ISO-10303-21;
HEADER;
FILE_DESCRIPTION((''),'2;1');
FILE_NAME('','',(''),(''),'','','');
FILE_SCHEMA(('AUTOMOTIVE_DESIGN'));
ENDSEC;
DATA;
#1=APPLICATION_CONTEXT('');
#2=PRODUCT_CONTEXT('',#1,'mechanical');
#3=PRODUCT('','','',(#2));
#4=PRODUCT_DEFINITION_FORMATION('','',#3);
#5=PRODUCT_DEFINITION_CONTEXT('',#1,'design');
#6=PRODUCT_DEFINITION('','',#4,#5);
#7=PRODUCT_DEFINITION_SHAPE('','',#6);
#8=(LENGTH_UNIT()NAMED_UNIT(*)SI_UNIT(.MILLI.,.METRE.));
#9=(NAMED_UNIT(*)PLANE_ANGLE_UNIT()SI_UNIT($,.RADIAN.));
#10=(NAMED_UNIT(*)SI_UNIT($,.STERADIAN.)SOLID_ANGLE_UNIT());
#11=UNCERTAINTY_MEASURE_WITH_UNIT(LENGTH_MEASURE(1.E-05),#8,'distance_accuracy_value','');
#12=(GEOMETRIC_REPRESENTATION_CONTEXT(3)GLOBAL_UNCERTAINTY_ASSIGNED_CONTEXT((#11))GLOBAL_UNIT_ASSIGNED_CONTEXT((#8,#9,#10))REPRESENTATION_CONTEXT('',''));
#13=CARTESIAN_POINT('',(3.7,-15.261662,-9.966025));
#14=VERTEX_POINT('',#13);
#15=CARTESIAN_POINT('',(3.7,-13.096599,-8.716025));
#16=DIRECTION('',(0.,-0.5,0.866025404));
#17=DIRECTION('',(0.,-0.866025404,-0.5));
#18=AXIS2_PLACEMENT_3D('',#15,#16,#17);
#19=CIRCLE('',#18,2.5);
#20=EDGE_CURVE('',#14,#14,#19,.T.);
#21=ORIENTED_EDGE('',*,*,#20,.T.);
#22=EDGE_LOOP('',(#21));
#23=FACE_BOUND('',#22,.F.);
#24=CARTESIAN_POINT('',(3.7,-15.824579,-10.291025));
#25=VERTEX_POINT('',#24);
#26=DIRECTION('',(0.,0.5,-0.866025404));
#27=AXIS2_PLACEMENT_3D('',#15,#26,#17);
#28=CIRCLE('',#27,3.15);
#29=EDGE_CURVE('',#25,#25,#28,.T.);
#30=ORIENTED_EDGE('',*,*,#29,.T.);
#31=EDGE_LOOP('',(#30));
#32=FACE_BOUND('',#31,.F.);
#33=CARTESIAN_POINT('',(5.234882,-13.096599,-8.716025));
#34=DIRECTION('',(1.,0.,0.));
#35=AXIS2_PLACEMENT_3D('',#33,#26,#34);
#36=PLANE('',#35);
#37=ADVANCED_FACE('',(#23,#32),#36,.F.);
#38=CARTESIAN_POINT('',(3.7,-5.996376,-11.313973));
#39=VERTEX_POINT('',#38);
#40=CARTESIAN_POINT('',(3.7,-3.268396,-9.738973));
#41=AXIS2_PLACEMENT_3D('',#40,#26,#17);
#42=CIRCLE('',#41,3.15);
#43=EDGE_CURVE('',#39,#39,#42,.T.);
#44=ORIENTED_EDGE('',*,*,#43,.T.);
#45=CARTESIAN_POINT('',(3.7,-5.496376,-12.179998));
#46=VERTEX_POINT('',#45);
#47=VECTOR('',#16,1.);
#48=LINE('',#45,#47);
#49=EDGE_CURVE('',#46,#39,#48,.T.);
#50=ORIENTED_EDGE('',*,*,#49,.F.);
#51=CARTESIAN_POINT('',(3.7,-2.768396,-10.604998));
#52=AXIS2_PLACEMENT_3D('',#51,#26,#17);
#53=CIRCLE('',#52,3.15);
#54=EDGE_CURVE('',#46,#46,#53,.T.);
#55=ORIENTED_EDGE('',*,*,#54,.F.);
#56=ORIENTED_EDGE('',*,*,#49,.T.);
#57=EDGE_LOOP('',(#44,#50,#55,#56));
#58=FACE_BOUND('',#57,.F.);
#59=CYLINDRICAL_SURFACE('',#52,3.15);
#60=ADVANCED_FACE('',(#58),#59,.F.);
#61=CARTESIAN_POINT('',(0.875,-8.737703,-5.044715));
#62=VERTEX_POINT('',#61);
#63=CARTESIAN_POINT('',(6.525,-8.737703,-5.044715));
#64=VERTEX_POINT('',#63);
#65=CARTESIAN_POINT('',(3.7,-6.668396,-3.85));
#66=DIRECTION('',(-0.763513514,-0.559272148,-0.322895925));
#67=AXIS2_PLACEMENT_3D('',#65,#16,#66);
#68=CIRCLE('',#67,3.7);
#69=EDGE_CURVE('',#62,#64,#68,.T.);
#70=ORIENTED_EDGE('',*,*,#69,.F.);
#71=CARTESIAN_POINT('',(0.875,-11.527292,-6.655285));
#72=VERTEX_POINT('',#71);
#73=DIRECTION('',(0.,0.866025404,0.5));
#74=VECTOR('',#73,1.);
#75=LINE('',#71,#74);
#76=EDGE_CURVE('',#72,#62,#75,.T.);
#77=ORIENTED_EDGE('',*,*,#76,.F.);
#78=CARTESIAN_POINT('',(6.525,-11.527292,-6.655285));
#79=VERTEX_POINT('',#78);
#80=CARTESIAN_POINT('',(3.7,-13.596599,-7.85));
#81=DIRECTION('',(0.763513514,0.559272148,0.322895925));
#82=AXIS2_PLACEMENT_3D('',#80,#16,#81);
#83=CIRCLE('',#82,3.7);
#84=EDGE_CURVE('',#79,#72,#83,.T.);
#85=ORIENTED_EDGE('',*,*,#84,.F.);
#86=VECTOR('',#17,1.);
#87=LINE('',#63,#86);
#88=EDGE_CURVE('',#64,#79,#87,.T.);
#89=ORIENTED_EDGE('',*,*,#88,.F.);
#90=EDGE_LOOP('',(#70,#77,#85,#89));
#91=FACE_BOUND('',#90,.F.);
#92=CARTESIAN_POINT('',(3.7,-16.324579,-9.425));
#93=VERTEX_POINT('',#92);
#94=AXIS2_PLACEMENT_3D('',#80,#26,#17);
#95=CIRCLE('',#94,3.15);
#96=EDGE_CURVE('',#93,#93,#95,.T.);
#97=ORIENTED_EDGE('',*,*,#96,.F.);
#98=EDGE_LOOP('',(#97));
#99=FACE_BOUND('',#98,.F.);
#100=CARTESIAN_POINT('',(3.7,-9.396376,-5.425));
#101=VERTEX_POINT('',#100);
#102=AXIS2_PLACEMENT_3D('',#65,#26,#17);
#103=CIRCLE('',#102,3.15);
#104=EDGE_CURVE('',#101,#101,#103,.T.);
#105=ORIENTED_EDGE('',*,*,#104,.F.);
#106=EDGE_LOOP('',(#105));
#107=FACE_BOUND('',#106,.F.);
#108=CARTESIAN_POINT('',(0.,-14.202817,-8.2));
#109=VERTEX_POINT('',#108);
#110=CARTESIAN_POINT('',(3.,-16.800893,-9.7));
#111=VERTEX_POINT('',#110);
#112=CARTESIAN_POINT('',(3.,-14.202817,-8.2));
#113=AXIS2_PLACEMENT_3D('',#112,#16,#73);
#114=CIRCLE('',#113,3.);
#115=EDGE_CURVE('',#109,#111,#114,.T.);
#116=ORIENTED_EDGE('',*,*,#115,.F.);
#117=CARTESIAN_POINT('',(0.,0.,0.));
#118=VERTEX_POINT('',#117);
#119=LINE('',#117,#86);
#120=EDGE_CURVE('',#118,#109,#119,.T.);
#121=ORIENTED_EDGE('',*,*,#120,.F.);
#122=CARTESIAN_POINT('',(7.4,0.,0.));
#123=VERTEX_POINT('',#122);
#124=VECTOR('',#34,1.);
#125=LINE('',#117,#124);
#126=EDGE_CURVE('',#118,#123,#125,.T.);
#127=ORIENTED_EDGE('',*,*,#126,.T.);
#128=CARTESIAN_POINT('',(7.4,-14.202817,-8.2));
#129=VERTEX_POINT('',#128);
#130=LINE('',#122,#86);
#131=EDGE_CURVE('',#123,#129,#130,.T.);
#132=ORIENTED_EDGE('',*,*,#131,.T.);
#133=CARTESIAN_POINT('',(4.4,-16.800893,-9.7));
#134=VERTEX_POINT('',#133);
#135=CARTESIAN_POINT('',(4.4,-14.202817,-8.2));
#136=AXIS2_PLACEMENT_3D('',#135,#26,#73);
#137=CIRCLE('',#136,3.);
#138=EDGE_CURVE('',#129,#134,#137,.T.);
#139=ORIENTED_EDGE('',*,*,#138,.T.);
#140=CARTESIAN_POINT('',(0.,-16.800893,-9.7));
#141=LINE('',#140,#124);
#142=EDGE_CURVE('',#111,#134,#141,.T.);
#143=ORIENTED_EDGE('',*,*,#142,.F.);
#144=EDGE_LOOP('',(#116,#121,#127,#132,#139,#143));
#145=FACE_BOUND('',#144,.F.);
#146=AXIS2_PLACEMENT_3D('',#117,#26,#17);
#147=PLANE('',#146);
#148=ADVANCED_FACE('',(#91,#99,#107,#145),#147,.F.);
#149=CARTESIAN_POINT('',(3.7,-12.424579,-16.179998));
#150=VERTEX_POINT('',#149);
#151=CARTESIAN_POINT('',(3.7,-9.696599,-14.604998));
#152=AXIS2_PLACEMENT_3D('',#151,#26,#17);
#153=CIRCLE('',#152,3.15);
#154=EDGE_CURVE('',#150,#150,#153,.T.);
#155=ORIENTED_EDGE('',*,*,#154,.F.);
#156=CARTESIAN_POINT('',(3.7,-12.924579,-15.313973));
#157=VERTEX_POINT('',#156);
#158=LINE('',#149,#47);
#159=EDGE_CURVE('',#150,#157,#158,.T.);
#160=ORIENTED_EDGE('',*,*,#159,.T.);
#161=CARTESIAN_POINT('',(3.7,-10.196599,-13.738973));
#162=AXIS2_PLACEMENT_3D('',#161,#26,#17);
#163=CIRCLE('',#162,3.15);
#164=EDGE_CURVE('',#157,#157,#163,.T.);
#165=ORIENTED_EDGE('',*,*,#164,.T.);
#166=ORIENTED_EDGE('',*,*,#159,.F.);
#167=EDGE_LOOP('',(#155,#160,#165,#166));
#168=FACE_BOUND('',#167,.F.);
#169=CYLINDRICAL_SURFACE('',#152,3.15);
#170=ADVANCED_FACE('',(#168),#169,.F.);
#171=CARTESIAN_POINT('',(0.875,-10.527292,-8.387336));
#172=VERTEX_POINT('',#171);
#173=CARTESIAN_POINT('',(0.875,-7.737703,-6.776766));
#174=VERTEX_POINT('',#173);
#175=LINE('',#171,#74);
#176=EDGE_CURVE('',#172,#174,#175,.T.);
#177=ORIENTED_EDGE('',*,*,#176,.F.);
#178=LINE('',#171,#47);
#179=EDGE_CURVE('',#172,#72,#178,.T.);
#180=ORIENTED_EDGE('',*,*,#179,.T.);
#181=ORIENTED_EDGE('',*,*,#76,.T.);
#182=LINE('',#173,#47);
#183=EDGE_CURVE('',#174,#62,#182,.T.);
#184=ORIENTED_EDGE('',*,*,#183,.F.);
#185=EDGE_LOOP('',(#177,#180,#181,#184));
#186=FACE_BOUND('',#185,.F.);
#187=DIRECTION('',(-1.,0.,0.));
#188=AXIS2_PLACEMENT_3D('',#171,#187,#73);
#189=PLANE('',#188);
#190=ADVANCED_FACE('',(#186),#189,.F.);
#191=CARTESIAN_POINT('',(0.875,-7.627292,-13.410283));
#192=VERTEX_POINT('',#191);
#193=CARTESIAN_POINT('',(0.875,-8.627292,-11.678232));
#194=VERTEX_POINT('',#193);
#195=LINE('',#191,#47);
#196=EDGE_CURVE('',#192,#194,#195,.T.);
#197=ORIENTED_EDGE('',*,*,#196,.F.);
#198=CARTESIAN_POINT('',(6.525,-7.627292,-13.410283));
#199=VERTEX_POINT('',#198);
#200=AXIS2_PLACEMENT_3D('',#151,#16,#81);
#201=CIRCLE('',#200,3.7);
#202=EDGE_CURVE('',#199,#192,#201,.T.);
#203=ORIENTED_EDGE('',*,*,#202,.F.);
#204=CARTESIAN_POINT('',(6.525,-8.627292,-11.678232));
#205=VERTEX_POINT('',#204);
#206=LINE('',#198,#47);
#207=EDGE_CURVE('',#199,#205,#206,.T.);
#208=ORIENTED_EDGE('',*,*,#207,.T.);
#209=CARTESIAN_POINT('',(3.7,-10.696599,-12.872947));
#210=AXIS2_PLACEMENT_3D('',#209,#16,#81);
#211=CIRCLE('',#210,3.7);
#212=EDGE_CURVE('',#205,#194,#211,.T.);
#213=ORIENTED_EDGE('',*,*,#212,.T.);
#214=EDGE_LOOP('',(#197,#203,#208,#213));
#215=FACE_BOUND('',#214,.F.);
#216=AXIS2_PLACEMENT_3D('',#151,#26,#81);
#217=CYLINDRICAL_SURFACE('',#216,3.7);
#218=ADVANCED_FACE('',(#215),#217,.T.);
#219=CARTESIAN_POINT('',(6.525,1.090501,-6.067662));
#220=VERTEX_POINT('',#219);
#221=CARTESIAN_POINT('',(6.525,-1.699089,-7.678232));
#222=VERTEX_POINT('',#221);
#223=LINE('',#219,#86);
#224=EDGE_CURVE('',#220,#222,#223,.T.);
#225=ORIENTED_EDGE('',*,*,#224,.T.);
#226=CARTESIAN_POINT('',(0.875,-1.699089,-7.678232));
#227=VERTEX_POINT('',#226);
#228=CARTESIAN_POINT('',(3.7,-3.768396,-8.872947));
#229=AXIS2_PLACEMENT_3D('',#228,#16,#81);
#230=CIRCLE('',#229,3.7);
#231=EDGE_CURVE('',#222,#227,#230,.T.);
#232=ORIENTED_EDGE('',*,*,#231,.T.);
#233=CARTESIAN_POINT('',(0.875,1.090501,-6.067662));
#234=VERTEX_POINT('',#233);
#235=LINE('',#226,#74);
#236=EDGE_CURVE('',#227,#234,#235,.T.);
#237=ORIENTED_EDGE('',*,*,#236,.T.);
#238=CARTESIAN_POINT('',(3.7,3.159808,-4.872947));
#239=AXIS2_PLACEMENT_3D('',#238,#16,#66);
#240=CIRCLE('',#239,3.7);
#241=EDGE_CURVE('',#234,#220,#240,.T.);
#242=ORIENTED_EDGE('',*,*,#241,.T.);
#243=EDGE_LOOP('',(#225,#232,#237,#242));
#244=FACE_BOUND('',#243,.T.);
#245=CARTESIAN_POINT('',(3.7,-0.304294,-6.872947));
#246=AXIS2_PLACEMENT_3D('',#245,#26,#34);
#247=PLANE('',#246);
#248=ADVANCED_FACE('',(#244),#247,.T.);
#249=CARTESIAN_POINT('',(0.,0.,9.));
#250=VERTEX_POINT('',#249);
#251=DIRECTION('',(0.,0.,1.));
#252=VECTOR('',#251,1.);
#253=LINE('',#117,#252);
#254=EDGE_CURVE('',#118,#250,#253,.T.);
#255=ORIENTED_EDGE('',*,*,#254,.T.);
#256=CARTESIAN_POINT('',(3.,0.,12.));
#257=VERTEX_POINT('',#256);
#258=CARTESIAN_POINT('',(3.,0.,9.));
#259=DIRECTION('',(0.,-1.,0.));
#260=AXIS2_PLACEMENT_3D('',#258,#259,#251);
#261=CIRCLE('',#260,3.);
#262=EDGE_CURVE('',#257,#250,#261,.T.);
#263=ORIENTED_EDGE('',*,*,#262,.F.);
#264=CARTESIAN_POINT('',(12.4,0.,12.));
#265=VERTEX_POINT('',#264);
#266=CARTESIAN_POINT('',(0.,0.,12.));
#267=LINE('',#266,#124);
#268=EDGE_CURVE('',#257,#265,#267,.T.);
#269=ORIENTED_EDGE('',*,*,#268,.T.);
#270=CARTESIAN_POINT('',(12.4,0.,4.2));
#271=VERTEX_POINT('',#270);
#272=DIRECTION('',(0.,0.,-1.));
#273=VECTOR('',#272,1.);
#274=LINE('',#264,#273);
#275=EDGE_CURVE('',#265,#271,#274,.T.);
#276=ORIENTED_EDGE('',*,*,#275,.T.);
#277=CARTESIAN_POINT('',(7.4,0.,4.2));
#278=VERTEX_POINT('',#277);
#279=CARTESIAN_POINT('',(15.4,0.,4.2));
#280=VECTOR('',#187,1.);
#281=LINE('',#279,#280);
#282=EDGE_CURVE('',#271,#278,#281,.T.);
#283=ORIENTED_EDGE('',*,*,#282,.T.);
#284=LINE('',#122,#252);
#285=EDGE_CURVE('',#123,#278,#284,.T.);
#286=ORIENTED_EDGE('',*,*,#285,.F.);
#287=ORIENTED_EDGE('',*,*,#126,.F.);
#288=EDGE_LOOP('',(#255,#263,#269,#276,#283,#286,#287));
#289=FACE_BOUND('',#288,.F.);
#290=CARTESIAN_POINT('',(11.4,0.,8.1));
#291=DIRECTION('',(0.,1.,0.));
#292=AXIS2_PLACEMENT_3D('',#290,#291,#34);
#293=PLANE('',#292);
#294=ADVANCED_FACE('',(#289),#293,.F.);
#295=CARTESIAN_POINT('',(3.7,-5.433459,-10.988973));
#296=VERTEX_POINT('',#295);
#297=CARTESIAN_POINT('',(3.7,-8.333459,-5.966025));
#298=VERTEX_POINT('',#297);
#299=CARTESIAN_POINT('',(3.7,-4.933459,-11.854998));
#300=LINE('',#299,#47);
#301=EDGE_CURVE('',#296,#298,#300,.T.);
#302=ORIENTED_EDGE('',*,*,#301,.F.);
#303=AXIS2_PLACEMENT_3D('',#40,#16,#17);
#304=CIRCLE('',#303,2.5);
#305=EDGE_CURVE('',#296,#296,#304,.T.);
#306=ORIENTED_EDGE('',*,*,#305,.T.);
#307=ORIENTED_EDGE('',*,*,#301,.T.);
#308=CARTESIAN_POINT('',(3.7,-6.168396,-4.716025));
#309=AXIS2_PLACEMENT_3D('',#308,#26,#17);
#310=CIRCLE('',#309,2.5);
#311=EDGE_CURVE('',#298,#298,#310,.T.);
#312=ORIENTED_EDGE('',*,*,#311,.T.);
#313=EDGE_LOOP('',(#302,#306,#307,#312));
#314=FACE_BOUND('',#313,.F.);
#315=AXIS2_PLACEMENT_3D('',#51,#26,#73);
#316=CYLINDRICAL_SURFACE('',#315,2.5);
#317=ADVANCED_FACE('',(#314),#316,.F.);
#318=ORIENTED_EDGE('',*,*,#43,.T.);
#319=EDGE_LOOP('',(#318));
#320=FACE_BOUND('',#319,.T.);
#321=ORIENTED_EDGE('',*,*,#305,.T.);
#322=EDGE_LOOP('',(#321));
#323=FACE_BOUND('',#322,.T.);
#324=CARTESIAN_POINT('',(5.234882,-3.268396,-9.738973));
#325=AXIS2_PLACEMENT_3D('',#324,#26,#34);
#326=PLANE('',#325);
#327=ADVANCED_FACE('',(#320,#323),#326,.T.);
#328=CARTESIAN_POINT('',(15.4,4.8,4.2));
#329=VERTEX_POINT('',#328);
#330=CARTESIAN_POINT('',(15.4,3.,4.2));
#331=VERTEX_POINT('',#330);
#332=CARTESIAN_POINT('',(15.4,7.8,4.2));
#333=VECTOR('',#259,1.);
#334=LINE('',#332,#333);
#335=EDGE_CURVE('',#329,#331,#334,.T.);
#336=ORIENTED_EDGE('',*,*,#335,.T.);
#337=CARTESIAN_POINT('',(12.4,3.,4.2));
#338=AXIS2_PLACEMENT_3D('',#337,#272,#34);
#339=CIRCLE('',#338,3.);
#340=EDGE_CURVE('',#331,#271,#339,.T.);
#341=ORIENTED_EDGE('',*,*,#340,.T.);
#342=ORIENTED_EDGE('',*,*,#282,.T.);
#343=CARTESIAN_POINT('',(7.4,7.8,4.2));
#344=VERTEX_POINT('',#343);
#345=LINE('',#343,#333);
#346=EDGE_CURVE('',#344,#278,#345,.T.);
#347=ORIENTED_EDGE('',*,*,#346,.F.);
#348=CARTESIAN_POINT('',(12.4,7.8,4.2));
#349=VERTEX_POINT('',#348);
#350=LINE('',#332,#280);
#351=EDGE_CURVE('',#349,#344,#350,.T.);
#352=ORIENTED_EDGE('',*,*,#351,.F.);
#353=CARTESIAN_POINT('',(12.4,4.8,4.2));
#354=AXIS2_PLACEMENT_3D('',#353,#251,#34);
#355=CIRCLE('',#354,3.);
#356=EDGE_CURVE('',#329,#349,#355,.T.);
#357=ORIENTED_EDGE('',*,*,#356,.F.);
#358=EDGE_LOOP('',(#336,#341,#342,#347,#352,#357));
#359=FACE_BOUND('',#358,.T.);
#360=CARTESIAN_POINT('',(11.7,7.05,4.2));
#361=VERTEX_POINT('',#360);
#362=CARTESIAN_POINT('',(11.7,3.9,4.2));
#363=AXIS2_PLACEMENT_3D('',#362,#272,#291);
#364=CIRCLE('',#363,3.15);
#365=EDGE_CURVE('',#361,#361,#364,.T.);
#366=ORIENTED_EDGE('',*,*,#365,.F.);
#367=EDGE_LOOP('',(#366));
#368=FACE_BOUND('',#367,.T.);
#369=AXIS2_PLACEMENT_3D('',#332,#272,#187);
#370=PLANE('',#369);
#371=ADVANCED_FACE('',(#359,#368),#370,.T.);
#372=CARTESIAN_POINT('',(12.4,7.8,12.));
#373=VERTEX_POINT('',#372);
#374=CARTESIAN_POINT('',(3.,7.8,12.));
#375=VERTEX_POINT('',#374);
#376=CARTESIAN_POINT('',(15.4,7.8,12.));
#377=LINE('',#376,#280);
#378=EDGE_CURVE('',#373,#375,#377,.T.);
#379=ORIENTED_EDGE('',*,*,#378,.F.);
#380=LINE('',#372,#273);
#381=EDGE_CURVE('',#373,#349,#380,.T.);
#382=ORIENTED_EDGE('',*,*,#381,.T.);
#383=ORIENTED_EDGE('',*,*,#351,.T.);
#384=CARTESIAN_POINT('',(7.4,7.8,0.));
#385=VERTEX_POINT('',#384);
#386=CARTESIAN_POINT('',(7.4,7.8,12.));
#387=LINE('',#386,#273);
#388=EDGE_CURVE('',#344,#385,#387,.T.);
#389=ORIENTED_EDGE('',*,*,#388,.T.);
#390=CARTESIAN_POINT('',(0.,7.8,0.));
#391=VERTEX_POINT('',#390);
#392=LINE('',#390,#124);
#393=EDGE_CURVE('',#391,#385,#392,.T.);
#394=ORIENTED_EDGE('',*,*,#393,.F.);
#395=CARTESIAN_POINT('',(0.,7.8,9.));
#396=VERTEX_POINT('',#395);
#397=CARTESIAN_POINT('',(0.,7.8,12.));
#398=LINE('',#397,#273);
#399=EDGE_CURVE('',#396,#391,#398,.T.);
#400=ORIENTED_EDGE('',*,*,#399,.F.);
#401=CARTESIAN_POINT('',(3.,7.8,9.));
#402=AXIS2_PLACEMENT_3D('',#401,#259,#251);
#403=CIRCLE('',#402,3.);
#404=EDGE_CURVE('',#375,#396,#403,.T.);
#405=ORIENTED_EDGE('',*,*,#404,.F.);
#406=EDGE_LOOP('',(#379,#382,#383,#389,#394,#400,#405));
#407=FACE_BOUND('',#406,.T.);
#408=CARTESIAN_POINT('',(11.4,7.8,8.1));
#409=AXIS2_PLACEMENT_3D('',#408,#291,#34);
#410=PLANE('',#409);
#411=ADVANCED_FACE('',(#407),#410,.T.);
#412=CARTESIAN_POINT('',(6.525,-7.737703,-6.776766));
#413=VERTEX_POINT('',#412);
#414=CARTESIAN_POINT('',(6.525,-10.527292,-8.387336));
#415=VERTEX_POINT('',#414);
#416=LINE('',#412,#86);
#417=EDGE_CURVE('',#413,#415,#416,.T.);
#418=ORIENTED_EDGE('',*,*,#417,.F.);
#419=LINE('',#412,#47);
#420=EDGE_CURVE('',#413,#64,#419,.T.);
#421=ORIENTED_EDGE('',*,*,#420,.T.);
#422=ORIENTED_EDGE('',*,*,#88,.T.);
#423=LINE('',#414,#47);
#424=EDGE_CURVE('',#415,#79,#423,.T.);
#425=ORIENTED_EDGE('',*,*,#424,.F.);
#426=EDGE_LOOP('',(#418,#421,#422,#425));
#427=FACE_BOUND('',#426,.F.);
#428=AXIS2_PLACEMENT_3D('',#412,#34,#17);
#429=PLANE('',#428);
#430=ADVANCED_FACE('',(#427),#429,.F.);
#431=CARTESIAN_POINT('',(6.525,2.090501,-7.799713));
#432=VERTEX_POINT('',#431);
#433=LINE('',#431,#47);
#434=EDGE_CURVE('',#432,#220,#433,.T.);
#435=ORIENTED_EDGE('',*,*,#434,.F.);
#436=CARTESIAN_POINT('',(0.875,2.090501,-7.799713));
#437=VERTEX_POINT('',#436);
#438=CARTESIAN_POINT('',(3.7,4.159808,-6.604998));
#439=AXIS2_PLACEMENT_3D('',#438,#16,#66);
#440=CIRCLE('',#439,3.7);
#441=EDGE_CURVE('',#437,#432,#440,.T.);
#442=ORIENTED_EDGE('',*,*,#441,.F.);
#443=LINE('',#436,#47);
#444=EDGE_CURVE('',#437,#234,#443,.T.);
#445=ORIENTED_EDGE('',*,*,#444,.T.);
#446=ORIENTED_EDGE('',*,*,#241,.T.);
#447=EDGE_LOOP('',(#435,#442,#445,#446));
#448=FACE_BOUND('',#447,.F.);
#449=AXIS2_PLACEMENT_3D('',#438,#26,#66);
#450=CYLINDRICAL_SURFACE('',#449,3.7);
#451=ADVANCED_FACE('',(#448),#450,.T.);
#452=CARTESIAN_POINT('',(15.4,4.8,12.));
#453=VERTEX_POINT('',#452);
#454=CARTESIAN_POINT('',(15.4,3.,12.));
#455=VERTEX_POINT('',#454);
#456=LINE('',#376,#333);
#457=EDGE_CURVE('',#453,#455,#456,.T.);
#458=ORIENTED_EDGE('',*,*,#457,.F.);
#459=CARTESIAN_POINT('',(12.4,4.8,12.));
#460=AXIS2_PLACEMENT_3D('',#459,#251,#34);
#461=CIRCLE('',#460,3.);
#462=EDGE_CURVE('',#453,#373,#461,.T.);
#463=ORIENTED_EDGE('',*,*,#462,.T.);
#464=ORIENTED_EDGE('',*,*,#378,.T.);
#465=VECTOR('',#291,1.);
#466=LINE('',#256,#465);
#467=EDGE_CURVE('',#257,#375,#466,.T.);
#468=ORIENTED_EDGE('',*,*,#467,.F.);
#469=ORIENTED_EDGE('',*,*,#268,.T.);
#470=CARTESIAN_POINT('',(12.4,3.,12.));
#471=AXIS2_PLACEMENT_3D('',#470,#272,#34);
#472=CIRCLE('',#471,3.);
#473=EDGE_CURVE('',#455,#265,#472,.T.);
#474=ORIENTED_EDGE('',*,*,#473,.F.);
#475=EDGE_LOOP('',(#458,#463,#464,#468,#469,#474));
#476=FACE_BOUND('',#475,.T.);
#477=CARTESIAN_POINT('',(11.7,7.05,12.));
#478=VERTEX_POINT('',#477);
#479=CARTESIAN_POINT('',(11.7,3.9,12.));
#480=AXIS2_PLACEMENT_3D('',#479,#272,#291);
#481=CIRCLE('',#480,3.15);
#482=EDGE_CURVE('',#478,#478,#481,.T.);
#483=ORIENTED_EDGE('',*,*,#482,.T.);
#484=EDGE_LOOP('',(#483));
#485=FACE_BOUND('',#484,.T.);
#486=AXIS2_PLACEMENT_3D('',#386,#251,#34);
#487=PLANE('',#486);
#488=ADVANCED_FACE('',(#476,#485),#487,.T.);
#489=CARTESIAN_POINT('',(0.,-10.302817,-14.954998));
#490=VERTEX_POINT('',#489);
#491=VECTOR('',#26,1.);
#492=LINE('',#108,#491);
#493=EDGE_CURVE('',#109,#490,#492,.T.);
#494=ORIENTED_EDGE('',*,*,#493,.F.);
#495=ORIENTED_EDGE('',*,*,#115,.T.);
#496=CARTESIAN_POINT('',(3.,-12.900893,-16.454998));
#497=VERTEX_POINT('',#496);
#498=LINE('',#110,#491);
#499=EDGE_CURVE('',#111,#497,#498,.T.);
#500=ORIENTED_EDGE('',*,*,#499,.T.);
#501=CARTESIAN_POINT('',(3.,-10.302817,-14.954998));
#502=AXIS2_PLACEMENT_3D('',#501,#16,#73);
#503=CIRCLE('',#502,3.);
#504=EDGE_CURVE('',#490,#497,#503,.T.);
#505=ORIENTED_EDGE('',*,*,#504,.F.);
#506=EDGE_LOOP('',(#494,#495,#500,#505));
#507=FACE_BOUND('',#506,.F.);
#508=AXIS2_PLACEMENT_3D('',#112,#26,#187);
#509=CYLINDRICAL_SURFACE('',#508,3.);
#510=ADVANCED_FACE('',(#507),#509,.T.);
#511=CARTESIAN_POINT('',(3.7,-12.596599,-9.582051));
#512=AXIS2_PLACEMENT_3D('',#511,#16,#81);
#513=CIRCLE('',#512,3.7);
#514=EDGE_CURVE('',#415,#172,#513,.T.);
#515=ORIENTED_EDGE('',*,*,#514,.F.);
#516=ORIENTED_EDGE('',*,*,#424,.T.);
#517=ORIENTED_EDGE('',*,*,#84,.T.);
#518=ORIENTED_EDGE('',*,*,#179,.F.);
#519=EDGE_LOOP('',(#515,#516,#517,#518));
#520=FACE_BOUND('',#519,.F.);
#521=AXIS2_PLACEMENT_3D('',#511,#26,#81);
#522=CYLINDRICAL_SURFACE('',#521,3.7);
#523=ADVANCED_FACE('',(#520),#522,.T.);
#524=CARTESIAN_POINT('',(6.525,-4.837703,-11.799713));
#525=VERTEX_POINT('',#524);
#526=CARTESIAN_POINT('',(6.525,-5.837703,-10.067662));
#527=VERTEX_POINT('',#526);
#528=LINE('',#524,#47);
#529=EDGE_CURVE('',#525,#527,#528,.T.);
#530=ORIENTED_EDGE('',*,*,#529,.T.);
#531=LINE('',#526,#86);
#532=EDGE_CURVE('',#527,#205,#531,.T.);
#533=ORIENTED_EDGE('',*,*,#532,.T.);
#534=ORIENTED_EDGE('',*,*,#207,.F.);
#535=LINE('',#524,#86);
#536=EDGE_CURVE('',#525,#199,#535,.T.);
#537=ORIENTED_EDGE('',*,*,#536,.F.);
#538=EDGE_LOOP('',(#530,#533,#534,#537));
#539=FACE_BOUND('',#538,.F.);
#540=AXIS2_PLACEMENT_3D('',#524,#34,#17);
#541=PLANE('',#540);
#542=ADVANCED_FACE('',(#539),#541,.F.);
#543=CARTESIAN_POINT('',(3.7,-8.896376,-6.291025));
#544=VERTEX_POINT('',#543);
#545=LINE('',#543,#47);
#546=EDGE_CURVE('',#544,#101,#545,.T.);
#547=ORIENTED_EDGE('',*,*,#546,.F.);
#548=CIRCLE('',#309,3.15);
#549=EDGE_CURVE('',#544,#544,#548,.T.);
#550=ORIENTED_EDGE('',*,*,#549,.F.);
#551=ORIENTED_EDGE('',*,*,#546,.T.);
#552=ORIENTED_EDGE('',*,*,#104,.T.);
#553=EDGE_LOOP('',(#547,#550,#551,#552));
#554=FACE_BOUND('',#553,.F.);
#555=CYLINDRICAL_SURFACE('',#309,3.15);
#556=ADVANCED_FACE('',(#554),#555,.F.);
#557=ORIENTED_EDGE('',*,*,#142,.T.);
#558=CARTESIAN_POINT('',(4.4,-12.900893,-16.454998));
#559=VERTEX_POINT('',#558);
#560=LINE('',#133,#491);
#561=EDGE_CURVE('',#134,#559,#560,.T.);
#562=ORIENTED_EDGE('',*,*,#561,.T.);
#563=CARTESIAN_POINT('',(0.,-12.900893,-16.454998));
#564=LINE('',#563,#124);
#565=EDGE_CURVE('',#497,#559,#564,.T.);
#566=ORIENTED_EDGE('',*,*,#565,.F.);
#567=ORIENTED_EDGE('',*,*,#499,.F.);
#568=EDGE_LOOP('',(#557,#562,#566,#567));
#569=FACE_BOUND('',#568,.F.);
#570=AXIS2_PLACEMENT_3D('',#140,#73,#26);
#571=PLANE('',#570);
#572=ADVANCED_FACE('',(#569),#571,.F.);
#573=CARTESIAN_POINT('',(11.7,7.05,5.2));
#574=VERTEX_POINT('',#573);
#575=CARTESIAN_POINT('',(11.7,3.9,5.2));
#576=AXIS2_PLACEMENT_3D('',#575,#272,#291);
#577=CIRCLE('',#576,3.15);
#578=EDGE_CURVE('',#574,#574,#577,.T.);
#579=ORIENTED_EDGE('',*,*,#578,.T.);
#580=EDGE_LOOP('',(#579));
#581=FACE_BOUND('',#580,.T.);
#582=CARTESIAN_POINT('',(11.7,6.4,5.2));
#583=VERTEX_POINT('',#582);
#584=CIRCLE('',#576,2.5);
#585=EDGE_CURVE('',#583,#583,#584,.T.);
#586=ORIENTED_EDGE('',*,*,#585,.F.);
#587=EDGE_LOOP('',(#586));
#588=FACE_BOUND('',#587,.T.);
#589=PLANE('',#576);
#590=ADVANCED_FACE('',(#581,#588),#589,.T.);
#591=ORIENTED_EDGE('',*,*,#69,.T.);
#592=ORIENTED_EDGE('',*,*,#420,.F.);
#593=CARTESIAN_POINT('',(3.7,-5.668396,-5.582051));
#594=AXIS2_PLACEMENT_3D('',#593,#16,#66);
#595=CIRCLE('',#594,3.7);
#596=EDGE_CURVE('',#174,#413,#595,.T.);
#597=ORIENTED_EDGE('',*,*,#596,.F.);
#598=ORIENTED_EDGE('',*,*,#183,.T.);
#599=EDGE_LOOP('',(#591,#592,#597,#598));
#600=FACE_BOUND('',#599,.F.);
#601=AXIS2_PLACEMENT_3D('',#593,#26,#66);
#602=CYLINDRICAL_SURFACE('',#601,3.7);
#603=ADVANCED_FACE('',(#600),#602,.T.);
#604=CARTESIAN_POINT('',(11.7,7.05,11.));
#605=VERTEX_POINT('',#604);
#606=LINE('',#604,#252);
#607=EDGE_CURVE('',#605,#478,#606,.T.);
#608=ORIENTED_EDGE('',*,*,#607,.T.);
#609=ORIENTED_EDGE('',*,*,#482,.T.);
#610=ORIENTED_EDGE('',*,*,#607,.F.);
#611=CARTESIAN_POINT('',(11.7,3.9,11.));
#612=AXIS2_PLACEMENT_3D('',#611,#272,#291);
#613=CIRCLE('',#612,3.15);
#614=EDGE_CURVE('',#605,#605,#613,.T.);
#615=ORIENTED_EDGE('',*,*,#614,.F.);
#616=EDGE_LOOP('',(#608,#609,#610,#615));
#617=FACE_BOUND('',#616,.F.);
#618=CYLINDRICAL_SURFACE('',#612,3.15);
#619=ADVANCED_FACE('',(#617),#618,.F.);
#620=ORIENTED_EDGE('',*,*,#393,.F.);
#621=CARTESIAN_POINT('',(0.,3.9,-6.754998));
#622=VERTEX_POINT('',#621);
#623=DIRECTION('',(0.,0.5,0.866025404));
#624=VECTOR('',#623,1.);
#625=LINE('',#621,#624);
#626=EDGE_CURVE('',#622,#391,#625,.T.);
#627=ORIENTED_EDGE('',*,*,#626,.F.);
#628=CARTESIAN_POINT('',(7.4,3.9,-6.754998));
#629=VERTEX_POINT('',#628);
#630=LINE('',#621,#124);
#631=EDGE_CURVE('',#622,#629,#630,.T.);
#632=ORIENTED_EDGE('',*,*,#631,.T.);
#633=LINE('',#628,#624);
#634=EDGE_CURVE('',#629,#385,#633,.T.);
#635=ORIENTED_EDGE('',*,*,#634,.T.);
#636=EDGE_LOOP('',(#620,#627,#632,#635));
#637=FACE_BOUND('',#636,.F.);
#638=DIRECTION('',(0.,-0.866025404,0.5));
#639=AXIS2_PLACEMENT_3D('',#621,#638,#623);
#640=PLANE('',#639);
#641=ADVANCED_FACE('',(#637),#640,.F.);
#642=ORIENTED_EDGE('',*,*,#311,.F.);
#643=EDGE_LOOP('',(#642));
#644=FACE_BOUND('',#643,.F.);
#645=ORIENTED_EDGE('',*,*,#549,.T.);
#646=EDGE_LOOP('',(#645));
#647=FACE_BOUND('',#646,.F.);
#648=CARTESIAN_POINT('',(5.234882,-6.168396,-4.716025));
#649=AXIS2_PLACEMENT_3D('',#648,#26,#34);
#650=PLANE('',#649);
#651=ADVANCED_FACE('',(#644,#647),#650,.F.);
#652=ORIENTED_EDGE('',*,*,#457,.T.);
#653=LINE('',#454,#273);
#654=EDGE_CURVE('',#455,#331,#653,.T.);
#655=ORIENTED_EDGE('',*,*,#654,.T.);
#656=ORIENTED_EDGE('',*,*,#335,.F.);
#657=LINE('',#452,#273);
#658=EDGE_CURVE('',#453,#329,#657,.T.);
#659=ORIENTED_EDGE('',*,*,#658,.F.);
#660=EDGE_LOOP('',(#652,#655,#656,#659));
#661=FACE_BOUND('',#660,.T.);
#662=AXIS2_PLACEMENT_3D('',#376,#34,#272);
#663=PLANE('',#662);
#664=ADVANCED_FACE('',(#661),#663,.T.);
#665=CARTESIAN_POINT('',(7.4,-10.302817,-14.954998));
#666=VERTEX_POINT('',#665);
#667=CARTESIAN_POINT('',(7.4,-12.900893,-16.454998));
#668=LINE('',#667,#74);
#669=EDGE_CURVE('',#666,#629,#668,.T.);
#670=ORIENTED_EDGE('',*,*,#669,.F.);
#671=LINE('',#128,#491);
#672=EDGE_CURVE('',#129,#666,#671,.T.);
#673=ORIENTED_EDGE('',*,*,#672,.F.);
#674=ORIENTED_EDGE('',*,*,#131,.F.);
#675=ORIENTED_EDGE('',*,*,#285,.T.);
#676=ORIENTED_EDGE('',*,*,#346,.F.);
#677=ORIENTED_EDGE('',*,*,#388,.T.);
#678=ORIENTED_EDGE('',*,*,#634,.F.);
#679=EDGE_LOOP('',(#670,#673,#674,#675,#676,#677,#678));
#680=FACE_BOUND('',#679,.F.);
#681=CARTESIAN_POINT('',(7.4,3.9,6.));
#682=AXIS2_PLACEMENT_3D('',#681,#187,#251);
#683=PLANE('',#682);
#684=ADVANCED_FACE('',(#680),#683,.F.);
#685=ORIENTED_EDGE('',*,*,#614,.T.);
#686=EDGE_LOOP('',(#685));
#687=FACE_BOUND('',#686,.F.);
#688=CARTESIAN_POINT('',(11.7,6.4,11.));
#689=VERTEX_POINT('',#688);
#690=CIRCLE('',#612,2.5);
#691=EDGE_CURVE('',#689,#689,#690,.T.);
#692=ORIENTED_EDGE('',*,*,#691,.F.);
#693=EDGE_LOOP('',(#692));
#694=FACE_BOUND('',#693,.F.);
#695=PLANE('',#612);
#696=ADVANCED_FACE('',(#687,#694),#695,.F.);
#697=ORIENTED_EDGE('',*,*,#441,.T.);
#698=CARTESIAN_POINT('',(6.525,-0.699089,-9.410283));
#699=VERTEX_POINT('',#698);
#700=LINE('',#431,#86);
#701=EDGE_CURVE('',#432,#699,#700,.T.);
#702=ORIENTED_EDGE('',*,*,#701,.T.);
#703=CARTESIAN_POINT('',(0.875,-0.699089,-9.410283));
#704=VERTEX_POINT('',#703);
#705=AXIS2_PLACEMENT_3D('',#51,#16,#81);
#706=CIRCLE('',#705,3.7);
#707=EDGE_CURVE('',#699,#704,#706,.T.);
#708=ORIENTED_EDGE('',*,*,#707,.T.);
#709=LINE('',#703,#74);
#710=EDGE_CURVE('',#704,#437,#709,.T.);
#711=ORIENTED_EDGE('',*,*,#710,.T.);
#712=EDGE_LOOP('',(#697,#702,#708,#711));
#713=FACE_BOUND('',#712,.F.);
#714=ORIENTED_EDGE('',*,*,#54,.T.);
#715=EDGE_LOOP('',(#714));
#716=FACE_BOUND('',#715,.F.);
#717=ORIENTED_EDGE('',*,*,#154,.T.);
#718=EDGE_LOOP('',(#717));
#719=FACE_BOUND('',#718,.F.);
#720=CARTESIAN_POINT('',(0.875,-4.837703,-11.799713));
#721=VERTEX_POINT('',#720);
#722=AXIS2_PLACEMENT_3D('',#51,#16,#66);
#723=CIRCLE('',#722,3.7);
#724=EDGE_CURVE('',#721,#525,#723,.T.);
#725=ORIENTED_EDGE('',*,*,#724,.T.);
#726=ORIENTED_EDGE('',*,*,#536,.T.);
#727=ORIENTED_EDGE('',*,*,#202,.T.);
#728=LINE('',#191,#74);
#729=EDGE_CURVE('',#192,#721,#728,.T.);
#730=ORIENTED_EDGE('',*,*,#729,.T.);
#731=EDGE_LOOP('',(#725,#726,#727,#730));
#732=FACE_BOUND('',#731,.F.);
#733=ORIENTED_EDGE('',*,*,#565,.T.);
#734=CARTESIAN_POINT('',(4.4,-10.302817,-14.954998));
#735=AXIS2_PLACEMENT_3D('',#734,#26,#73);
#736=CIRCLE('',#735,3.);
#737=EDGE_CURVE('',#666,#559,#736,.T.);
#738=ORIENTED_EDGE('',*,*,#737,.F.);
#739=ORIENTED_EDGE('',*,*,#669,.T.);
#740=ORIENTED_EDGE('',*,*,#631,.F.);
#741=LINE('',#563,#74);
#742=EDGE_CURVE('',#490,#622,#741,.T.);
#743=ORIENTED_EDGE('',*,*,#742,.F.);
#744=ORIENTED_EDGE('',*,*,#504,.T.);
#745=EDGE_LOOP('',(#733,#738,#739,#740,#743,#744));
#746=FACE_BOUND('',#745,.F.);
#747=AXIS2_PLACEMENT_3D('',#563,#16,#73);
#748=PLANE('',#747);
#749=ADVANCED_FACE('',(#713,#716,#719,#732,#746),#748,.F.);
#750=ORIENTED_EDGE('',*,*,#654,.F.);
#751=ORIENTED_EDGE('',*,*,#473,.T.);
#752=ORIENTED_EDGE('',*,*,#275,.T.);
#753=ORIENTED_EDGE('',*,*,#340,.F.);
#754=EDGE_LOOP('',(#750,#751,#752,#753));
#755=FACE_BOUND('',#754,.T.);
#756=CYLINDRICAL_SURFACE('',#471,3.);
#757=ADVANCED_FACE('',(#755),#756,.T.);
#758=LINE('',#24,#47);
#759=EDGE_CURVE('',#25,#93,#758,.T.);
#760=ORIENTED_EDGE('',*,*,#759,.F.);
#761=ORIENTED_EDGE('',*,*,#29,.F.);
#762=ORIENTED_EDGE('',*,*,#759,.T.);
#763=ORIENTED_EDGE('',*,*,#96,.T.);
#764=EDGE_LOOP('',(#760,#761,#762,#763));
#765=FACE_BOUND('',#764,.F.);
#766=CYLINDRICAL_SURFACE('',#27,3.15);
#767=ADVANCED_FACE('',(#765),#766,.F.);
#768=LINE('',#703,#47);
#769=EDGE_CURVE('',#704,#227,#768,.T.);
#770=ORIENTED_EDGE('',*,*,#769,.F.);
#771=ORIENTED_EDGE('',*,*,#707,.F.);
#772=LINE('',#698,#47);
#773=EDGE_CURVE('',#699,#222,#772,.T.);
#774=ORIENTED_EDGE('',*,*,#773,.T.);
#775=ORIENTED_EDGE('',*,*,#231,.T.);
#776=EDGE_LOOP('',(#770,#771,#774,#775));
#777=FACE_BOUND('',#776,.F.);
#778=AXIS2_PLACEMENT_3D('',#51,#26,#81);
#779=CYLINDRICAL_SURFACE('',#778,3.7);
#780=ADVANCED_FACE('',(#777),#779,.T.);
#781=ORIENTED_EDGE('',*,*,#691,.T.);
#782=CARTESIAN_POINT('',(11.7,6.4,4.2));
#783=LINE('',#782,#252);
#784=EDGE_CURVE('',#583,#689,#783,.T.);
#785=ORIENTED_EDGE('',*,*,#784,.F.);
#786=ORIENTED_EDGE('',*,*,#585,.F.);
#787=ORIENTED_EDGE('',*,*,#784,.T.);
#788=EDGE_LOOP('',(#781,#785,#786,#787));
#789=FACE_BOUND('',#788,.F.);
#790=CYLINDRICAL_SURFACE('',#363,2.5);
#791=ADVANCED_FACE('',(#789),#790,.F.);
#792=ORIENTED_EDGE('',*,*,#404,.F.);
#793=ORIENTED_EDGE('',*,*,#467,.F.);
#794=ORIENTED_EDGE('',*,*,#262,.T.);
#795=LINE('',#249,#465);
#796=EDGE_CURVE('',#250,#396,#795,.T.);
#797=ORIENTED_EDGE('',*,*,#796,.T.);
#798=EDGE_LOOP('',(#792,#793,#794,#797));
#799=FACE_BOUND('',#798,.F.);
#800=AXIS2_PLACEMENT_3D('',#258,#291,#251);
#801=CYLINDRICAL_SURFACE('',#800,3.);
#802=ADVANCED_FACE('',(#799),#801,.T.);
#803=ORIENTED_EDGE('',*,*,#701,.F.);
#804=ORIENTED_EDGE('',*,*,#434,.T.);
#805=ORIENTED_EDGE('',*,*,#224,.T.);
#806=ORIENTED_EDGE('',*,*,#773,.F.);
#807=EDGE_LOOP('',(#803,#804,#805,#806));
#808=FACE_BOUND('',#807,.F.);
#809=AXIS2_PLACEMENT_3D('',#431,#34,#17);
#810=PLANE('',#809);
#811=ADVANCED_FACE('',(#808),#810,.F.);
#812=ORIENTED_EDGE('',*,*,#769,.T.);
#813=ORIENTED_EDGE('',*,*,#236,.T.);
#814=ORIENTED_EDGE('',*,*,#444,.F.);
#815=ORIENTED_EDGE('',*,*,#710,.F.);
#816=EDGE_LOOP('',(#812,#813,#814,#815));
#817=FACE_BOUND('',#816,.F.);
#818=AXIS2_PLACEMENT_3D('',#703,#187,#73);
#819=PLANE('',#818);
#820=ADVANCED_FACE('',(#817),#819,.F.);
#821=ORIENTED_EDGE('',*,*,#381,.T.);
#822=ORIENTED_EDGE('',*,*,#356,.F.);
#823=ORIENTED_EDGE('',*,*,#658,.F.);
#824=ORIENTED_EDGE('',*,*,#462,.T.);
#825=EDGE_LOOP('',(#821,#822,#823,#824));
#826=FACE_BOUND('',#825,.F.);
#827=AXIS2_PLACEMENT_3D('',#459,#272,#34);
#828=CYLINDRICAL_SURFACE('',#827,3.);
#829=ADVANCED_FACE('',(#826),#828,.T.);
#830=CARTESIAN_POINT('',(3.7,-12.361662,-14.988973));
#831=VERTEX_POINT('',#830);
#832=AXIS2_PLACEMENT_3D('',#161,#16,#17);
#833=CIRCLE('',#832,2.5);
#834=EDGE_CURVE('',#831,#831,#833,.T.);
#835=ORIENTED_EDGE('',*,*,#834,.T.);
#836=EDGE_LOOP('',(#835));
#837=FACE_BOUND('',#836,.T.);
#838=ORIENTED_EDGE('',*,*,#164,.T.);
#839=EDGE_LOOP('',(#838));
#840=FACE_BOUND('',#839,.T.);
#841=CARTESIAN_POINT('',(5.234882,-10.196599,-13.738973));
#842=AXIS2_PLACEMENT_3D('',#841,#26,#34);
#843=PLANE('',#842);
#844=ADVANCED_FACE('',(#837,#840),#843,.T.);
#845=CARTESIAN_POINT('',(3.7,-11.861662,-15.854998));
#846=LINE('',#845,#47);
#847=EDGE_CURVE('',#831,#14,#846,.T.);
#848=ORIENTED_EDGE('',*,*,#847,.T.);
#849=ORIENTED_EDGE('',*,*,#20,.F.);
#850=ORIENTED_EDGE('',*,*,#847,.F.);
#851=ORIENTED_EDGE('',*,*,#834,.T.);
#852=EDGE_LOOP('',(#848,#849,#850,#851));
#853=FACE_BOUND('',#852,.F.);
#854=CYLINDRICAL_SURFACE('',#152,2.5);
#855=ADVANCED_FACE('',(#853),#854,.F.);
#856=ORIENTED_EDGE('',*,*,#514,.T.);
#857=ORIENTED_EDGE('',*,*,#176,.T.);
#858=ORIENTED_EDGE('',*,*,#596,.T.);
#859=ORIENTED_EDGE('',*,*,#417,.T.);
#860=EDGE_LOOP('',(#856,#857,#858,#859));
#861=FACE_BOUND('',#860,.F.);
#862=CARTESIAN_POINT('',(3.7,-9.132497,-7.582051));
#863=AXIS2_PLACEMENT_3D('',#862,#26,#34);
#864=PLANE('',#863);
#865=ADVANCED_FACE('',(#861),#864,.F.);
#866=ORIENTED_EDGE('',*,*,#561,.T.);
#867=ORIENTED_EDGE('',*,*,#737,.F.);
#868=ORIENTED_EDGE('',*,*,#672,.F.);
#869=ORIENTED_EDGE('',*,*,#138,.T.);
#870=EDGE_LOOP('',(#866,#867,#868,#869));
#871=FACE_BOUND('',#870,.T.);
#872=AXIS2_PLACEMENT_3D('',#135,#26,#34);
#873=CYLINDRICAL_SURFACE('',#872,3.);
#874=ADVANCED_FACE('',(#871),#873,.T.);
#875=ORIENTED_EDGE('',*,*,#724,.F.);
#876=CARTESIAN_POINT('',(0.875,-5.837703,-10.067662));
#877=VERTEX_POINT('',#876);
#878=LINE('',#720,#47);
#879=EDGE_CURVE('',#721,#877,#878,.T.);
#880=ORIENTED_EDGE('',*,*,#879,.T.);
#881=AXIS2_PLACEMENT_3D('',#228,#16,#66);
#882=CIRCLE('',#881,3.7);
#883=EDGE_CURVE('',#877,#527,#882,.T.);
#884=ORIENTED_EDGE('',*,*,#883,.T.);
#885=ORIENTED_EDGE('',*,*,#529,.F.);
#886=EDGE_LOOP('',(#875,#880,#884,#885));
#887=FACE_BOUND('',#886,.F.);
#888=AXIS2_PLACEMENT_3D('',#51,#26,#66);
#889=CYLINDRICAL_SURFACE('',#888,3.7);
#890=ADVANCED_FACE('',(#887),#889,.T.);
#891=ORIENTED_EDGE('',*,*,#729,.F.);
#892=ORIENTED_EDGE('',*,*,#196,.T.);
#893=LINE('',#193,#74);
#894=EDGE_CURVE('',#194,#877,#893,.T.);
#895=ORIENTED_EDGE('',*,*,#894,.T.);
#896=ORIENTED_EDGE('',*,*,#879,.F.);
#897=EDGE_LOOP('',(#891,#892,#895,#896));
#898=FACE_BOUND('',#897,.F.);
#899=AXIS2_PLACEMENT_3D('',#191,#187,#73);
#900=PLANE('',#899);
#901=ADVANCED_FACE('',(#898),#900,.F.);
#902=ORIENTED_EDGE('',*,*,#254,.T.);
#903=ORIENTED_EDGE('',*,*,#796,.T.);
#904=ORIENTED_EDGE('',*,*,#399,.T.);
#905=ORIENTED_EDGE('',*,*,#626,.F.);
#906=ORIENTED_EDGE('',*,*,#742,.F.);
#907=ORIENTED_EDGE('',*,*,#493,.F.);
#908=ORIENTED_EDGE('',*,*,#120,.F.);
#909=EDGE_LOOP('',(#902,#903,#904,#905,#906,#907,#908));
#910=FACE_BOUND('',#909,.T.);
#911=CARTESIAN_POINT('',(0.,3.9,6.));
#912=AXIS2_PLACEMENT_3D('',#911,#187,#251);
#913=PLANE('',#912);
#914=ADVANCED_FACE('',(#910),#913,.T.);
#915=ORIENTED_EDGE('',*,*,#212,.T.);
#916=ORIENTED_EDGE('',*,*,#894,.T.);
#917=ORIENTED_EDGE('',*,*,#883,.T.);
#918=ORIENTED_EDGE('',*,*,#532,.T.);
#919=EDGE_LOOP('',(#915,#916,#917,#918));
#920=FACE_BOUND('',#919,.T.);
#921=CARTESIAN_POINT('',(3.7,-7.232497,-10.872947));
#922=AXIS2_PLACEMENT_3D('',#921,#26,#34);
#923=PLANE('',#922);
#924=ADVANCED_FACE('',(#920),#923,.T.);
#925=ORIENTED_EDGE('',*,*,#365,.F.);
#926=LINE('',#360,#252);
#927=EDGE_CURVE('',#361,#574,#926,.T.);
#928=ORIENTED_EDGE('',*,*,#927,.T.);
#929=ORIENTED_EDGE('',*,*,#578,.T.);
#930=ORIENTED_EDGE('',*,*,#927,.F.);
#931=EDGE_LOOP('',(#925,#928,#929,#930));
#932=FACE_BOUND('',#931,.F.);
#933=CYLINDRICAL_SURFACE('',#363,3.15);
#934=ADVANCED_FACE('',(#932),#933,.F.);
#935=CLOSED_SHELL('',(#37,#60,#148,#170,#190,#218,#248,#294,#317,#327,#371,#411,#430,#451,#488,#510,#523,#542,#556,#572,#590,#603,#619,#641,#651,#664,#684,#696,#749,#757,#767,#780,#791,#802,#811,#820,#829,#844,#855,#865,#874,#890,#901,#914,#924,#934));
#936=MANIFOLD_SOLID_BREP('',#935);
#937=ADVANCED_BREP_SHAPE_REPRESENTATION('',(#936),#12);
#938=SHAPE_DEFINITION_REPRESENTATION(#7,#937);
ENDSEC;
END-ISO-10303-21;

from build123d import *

# Parameters (mm, degrees)
EXTRUDE_1_DEPTH        = 7.4
EXTRUDE_2_DEPTH        = 7.8
CUT_EXTRUDE_1_REACH    = 32.758
SKETCH_4_R             = 2.5000000000000004
SKETCH_4_3_R           = 3.1499999999999972
CUT_EXTRUDE_2_DEPTH    = 1
CUT_EXTRUDE_START      = -6.8
SKETCH_4_4_R           = 3.1499999999999972
CUT_EXTRUDE_3_DEPTH    = 1
CUT_EXTRUDE_4_DEPTH    = 1
CUT_EXTRUDE_5_DEPTH    = 1
CUT_EXTRUDE_6_REACH    = 33.897
PATTERN_LINEAR_1_COUNT = 2
PATTERN_LINEAR_1_PITCH = 8
CUT_EXTRUDE_7_DEPTH    = 2
CUT_EXTRUDE_START_2    = -5.8
CUT_EXTRUDE_8_DEPTH    = 2
FILLET_1_R             = 3
PATTERN_LINEAR_3_COUNT = 2
PATTERN_LINEAR_3_PITCH = 8


with BuildPart() as part:
    # 草图1 → 凸台-拉伸1 (new body)
    with BuildSketch(Plane(origin=(0, 0, 0), x_dir=(0, 0, -1), z_dir=(1, 0, 0))):
        Polygon((-6.94e-15, 7.800000000000002), (0, 0), (-12, 0), (-12.000000000000002, 7.8), align=None)
        Polygon((-6.94e-15, 7.800000000000002), (0, 0), (6.754998149518629, 3.8999999999999866), align=None)
        Polygon((0, 0), (9.699999999999958, -16.800892833418125), (16.45499814951859, -12.90089283341814), (6.754998149518629, 3.8999999999999866), align=None)
    extrude(amount=EXTRUDE_1_DEPTH)

    # 草图2 → 凸台-拉伸2 (add)
    with BuildSketch(Plane(origin=(0, 7.800000000000002, 1.13e-15), x_dir=(1, 0, 0), z_dir=(0, 1, 2.3e-16))):
        Polygon((7.400000000000001, -12), (15.4, -11.999999999999998), (15.399999999999997, -4.199999999999999), (7.4, -4.2), align=None)
    extrude(amount=-EXTRUDE_2_DEPTH)

    # 草图4 → 切除-拉伸1 (cut, up to next)
    with BuildSketch(Plane(origin=(0, -9.5e-16, 4.199999999999999), x_dir=(-1, 0, 0), z_dir=(0, 2.3e-16, -1)), mode=Mode.PRIVATE) as cut_extrude_1_sk1:
        with Locations(Location((-11.70000000000001, 3.9000000000000017, 0), (0, 0, 90))):
            Circle(SKETCH_4_R)
    cut_extrude_1_tool1 = extrude(cut_extrude_1_sk1.sketch, amount=-CUT_EXTRUDE_1_REACH, mode=Mode.PRIVATE) & part.part
    add(cut_extrude_1_tool1.solids().sort_by_distance((11.7, 3.9, 4.2))[0], mode=Mode.SUBTRACT)

    # 草图4<3> → 切除-拉伸2 (cut)
    with BuildSketch(Plane(origin=(0, -9.5e-16, 4.199999999999999), x_dir=(-1, 0, 0), z_dir=(0, 2.3e-16, -1))):
        with Locations(Location((-11.70000000000001, 3.9000000000000017, 0), (0, 0, 90))):
            Circle(SKETCH_4_3_R)
    extrude(amount=-CUT_EXTRUDE_2_DEPTH, mode=Mode.SUBTRACT)

    # 草图4<4> → 切除-拉伸3 (cut)
    with BuildSketch(Plane(origin=(0, -9.5e-16, 4.199999999999999), x_dir=(-1, 0, 0), z_dir=(0, 2.3e-16, -1)).offset(CUT_EXTRUDE_START)):
        with Locations(Location((-11.70000000000001, 3.9000000000000017, 0), (0, 0, 90))):
            Circle(SKETCH_4_4_R)
    extrude(amount=-CUT_EXTRUDE_3_DEPTH, mode=Mode.SUBTRACT)

    # 草图5 → 切除-拉伸4 (cut)
    with BuildSketch(Plane(origin=(0, 3.8999999999999857, -6.754998149518631), x_dir=(1, 0, 0), z_dir=(0, 0.499999999999998, -0.8660254037844397))):
        with BuildLine():
            ThreePointArc((6.85, 15.699999999999992), (5.927386360737607, 17.927386360737636), (3.6999999999999518, 18.84999999999999))
            Line((3.7000000000000024, 18.84999999999999), (3.7000000000000024, 18.199999999999992))
            ThreePointArc((3.6999999999999913, 18.199999999999992), (5.4677669529663655, 17.467766952966365), (6.199999999999999, 15.699999999999992))
            ThreePointArc((6.199999999999999, 15.699999999999992), (5.467766952966364, 13.93223304703362), (3.699999999999989, 13.199999999999992))
            Line((3.7000000000000024, 13.199999999999992), (3.7000000000000024, 12.549999999999994))
            ThreePointArc((3.6999999999999496, 12.549999999999994), (5.927386360737607, 13.472613639262349), (6.85, 15.699999999999992))
        make_face()
        with BuildLine():
            Line((3.7000000000000024, 18.199999999999992), (3.7000000000000024, 18.84999999999999))
            ThreePointArc((3.6999999999999513, 18.84999999999999), (0.5500000000000012, 15.699999999999992), (3.6999999999999496, 12.549999999999994))
            Line((3.7000000000000024, 12.549999999999994), (3.7000000000000024, 13.199999999999992))
            ThreePointArc((3.699999999999989, 13.199999999999992), (1.2000000000000015, 15.699999999999992), (3.6999999999999913, 18.199999999999992))
        make_face()
    cut_extrude_4 = extrude(amount=-CUT_EXTRUDE_4_DEPTH, mode=Mode.SUBTRACT)

    # 草图5<3> → 切除-拉伸5 (cut)
    with BuildSketch(Plane(origin=(0, 3.8999999999999857, -6.754998149518631), x_dir=(1, 0, 0), z_dir=(0, 0.499999999999998, -0.8660254037844397)).offset(CUT_EXTRUDE_START)):
        with BuildLine():
            ThreePointArc((6.85, 15.699999999999992), (5.927386360737607, 17.927386360737636), (3.6999999999999518, 18.84999999999999))
            Line((3.7000000000000024, 18.84999999999999), (3.7000000000000024, 18.199999999999992))
            ThreePointArc((3.6999999999999913, 18.199999999999992), (5.4677669529663655, 17.467766952966365), (6.199999999999999, 15.699999999999992))
            ThreePointArc((6.199999999999999, 15.699999999999992), (5.467766952966364, 13.93223304703362), (3.699999999999989, 13.199999999999992))
            Line((3.7000000000000024, 13.199999999999992), (3.7000000000000024, 12.549999999999994))
            ThreePointArc((3.6999999999999496, 12.549999999999994), (5.927386360737607, 13.472613639262349), (6.85, 15.699999999999992))
        make_face()
        with BuildLine():
            Line((3.7000000000000024, 18.199999999999992), (3.7000000000000024, 18.84999999999999))
            ThreePointArc((3.6999999999999513, 18.84999999999999), (0.5500000000000012, 15.699999999999992), (3.6999999999999496, 12.549999999999994))
            Line((3.7000000000000024, 12.549999999999994), (3.7000000000000024, 13.199999999999992))
            ThreePointArc((3.699999999999989, 13.199999999999992), (1.2000000000000015, 15.699999999999992), (3.6999999999999913, 18.199999999999992))
        make_face()
    cut_extrude_5 = extrude(amount=-CUT_EXTRUDE_5_DEPTH, mode=Mode.SUBTRACT)

    # 草图5<4> → 切除-拉伸6 (cut, up to next)
    with BuildSketch(Plane(origin=(0, 3.8999999999999857, -6.754998149518631), x_dir=(1, 0, 0), z_dir=(0, 0.499999999999998, -0.8660254037844397)), mode=Mode.PRIVATE) as cut_extrude_6_sk1:
        with BuildLine():
            ThreePointArc((6.199999999999999, 15.699999999999992), (5.4677669529663655, 17.467766952966365), (3.6999999999999913, 18.199999999999992))
            Line((3.7000000000000024, 18.199999999999992), (3.7000000000000024, 13.199999999999992))
            ThreePointArc((3.699999999999989, 13.199999999999992), (5.467766952966364, 13.93223304703362), (6.199999999999999, 15.699999999999992))
        make_face()
    cut_extrude_6_tool1 = extrude(cut_extrude_6_sk1.sketch, amount=-CUT_EXTRUDE_6_REACH, mode=Mode.PRIVATE) & part.part
    # 草图5<4> → 切除-拉伸6 (cut, up to next)
    with BuildSketch(Plane(origin=(0, 3.8999999999999857, -6.754998149518631), x_dir=(1, 0, 0), z_dir=(0, 0.499999999999998, -0.8660254037844397)), mode=Mode.PRIVATE) as cut_extrude_6_sk2:
        with BuildLine():
            Line((3.7000000000000024, 13.199999999999992), (3.7000000000000024, 18.199999999999992))
            ThreePointArc((3.6999999999999913, 18.199999999999992), (1.2000000000000015, 15.699999999999992), (3.699999999999989, 13.199999999999992))
        make_face()
    cut_extrude_6_tool2 = extrude(cut_extrude_6_sk2.sketch, amount=-CUT_EXTRUDE_6_REACH, mode=Mode.PRIVATE) & part.part
    # 草图5<4> → 切除-拉伸6 (cut, up to next)
    with BuildSketch(Plane(origin=(0, 3.8999999999999857, -6.754998149518631), x_dir=(1, 0, 0), z_dir=(0, 0.499999999999998, -0.8660254037844397)), mode=Mode.PRIVATE) as cut_extrude_6_sk3:
        with BuildLine():
            ThreePointArc((6.199999999999999, 15.699999999999992), (5.4677669529663655, 17.467766952966365), (3.6999999999999913, 18.199999999999992))
            Line((3.7000000000000024, 18.199999999999992), (3.7000000000000024, 13.199999999999992))
            ThreePointArc((3.699999999999989, 13.199999999999992), (5.467766952966364, 13.93223304703362), (6.199999999999999, 15.699999999999992))
        make_face()
    cut_extrude_6_tool3 = extrude(cut_extrude_6_sk3.sketch, amount=-CUT_EXTRUDE_6_REACH, mode=Mode.PRIVATE) & part.part
    # 草图5<4> → 切除-拉伸6 (cut, up to next)
    with BuildSketch(Plane(origin=(0, 3.8999999999999857, -6.754998149518631), x_dir=(1, 0, 0), z_dir=(0, 0.499999999999998, -0.8660254037844397)), mode=Mode.PRIVATE) as cut_extrude_6_sk4:
        with BuildLine():
            Line((3.7000000000000024, 13.199999999999992), (3.7000000000000024, 18.199999999999992))
            ThreePointArc((3.6999999999999913, 18.199999999999992), (1.2000000000000015, 15.699999999999992), (3.699999999999989, 13.199999999999992))
        make_face()
    cut_extrude_6_tool4 = extrude(cut_extrude_6_sk4.sketch, amount=-CUT_EXTRUDE_6_REACH, mode=Mode.PRIVATE) & part.part
    cut_extrude_6_1 = cut_extrude_6_tool1.solids().sort_by_distance((4.761033, -9.696599, -14.604998))[0]
    add(cut_extrude_6_1, mode=Mode.SUBTRACT)
    cut_extrude_6_2 = cut_extrude_6_tool2.solids().sort_by_distance((2.638967, -9.696599, -14.604998))[0]
    add(cut_extrude_6_2, mode=Mode.SUBTRACT)
    cut_extrude_6_3 = cut_extrude_6_tool3.solids().sort_by_distance((4.761033, -9.696599, -14.604998))[0]
    add(cut_extrude_6_3, mode=Mode.SUBTRACT)
    cut_extrude_6_4 = cut_extrude_6_tool4.solids().sort_by_distance((2.638967, -9.696599, -14.604998))[0]
    add(cut_extrude_6_4, mode=Mode.SUBTRACT)
    cut_extrude_6 = cut_extrude_6_1 + cut_extrude_6_2 + cut_extrude_6_3 + cut_extrude_6_4  # 切除-拉伸6 as one shape, for the pattern or mirror that repeats it

    # 阵列(线性)1: 切除-拉伸4, 切除-拉伸5, 切除-拉伸6 ×2
    with Locations(*[Vector(0, 0.8660254037844397, 0.49999999999999806) * (i * PATTERN_LINEAR_1_PITCH) for i in range(1, PATTERN_LINEAR_1_COUNT)]):
        add(cut_extrude_4, mode=Mode.SUBTRACT)
        add(cut_extrude_5, mode=Mode.SUBTRACT)
        add(cut_extrude_6, mode=Mode.SUBTRACT)

    # 草图6 → 切除-拉伸7 (cut)
    with BuildSketch(Plane(origin=(0, 3.899999999999984, -6.754998149518628), x_dir=(1, 0, 0), z_dir=(0, 0.49999999999999806, -0.8660254037844398))):
        with BuildLine():
            Line((6.525000000000001, 10.089429848311095), (6.525, 13.31057015168897))
            ThreePointArc((6.52500000000005, 13.310570151688953), (3.699999999999908, 11.999999999999995), (0.8749999999998344, 13.310570151689092))
            Line((0.8750000000000009, 13.310570151689145), (0.8750000000000012, 10.089429848311095))
            ThreePointArc((0.8750000000000027, 10.089429848311095), (3.7000000000000015, 11.399999999999995), (6.525, 10.089429848311095))
        make_face()
    cut_extrude_7 = extrude(amount=-CUT_EXTRUDE_7_DEPTH, mode=Mode.SUBTRACT)

    # 草图6<3> → 切除-拉伸8 (cut)
    with BuildSketch(Plane(origin=(0, 3.899999999999984, -6.754998149518628), x_dir=(1, 0, 0), z_dir=(0, 0.49999999999999806, -0.8660254037844398)).offset(CUT_EXTRUDE_START_2)):
        with BuildLine():
            Line((6.525000000000001, 10.089429848311095), (6.525, 13.31057015168897))
            ThreePointArc((6.52500000000005, 13.310570151688953), (3.699999999999908, 11.999999999999995), (0.8749999999998344, 13.310570151689092))
            Line((0.8750000000000009, 13.310570151689145), (0.8750000000000012, 10.089429848311095))
            ThreePointArc((0.8750000000000027, 10.089429848311095), (3.7000000000000015, 11.399999999999995), (6.525, 10.089429848311095))
        make_face()
    extrude(amount=-CUT_EXTRUDE_8_DEPTH, mode=Mode.SUBTRACT)

    # 圆角1
    fillet_1_edges = [part.edges().sort_by_distance(p)[0] for p in [
        (0, -14.850892833418133, -13.077499074759274),
        (7.4, -14.850892833418133, -13.077499074759274),
        (15.399999999999999, 7.8, 8.1),
        (15.399999999999999, -5e-17, 8.099999999999998),
        (0, 3.9, 12),
    ]]
    fillet(fillet_1_edges, radius=FILLET_1_R)

    # 阵列(线性)3: 切除-拉伸7 ×2
    with Locations(*[Vector(0, 0.86602540378444, 0.4999999999999977) * (i * PATTERN_LINEAR_3_PITCH) for i in range(1, PATTERN_LINEAR_3_COUNT)]):
        add(cut_extrude_7, mode=Mode.SUBTRACT)


solid = part.part
